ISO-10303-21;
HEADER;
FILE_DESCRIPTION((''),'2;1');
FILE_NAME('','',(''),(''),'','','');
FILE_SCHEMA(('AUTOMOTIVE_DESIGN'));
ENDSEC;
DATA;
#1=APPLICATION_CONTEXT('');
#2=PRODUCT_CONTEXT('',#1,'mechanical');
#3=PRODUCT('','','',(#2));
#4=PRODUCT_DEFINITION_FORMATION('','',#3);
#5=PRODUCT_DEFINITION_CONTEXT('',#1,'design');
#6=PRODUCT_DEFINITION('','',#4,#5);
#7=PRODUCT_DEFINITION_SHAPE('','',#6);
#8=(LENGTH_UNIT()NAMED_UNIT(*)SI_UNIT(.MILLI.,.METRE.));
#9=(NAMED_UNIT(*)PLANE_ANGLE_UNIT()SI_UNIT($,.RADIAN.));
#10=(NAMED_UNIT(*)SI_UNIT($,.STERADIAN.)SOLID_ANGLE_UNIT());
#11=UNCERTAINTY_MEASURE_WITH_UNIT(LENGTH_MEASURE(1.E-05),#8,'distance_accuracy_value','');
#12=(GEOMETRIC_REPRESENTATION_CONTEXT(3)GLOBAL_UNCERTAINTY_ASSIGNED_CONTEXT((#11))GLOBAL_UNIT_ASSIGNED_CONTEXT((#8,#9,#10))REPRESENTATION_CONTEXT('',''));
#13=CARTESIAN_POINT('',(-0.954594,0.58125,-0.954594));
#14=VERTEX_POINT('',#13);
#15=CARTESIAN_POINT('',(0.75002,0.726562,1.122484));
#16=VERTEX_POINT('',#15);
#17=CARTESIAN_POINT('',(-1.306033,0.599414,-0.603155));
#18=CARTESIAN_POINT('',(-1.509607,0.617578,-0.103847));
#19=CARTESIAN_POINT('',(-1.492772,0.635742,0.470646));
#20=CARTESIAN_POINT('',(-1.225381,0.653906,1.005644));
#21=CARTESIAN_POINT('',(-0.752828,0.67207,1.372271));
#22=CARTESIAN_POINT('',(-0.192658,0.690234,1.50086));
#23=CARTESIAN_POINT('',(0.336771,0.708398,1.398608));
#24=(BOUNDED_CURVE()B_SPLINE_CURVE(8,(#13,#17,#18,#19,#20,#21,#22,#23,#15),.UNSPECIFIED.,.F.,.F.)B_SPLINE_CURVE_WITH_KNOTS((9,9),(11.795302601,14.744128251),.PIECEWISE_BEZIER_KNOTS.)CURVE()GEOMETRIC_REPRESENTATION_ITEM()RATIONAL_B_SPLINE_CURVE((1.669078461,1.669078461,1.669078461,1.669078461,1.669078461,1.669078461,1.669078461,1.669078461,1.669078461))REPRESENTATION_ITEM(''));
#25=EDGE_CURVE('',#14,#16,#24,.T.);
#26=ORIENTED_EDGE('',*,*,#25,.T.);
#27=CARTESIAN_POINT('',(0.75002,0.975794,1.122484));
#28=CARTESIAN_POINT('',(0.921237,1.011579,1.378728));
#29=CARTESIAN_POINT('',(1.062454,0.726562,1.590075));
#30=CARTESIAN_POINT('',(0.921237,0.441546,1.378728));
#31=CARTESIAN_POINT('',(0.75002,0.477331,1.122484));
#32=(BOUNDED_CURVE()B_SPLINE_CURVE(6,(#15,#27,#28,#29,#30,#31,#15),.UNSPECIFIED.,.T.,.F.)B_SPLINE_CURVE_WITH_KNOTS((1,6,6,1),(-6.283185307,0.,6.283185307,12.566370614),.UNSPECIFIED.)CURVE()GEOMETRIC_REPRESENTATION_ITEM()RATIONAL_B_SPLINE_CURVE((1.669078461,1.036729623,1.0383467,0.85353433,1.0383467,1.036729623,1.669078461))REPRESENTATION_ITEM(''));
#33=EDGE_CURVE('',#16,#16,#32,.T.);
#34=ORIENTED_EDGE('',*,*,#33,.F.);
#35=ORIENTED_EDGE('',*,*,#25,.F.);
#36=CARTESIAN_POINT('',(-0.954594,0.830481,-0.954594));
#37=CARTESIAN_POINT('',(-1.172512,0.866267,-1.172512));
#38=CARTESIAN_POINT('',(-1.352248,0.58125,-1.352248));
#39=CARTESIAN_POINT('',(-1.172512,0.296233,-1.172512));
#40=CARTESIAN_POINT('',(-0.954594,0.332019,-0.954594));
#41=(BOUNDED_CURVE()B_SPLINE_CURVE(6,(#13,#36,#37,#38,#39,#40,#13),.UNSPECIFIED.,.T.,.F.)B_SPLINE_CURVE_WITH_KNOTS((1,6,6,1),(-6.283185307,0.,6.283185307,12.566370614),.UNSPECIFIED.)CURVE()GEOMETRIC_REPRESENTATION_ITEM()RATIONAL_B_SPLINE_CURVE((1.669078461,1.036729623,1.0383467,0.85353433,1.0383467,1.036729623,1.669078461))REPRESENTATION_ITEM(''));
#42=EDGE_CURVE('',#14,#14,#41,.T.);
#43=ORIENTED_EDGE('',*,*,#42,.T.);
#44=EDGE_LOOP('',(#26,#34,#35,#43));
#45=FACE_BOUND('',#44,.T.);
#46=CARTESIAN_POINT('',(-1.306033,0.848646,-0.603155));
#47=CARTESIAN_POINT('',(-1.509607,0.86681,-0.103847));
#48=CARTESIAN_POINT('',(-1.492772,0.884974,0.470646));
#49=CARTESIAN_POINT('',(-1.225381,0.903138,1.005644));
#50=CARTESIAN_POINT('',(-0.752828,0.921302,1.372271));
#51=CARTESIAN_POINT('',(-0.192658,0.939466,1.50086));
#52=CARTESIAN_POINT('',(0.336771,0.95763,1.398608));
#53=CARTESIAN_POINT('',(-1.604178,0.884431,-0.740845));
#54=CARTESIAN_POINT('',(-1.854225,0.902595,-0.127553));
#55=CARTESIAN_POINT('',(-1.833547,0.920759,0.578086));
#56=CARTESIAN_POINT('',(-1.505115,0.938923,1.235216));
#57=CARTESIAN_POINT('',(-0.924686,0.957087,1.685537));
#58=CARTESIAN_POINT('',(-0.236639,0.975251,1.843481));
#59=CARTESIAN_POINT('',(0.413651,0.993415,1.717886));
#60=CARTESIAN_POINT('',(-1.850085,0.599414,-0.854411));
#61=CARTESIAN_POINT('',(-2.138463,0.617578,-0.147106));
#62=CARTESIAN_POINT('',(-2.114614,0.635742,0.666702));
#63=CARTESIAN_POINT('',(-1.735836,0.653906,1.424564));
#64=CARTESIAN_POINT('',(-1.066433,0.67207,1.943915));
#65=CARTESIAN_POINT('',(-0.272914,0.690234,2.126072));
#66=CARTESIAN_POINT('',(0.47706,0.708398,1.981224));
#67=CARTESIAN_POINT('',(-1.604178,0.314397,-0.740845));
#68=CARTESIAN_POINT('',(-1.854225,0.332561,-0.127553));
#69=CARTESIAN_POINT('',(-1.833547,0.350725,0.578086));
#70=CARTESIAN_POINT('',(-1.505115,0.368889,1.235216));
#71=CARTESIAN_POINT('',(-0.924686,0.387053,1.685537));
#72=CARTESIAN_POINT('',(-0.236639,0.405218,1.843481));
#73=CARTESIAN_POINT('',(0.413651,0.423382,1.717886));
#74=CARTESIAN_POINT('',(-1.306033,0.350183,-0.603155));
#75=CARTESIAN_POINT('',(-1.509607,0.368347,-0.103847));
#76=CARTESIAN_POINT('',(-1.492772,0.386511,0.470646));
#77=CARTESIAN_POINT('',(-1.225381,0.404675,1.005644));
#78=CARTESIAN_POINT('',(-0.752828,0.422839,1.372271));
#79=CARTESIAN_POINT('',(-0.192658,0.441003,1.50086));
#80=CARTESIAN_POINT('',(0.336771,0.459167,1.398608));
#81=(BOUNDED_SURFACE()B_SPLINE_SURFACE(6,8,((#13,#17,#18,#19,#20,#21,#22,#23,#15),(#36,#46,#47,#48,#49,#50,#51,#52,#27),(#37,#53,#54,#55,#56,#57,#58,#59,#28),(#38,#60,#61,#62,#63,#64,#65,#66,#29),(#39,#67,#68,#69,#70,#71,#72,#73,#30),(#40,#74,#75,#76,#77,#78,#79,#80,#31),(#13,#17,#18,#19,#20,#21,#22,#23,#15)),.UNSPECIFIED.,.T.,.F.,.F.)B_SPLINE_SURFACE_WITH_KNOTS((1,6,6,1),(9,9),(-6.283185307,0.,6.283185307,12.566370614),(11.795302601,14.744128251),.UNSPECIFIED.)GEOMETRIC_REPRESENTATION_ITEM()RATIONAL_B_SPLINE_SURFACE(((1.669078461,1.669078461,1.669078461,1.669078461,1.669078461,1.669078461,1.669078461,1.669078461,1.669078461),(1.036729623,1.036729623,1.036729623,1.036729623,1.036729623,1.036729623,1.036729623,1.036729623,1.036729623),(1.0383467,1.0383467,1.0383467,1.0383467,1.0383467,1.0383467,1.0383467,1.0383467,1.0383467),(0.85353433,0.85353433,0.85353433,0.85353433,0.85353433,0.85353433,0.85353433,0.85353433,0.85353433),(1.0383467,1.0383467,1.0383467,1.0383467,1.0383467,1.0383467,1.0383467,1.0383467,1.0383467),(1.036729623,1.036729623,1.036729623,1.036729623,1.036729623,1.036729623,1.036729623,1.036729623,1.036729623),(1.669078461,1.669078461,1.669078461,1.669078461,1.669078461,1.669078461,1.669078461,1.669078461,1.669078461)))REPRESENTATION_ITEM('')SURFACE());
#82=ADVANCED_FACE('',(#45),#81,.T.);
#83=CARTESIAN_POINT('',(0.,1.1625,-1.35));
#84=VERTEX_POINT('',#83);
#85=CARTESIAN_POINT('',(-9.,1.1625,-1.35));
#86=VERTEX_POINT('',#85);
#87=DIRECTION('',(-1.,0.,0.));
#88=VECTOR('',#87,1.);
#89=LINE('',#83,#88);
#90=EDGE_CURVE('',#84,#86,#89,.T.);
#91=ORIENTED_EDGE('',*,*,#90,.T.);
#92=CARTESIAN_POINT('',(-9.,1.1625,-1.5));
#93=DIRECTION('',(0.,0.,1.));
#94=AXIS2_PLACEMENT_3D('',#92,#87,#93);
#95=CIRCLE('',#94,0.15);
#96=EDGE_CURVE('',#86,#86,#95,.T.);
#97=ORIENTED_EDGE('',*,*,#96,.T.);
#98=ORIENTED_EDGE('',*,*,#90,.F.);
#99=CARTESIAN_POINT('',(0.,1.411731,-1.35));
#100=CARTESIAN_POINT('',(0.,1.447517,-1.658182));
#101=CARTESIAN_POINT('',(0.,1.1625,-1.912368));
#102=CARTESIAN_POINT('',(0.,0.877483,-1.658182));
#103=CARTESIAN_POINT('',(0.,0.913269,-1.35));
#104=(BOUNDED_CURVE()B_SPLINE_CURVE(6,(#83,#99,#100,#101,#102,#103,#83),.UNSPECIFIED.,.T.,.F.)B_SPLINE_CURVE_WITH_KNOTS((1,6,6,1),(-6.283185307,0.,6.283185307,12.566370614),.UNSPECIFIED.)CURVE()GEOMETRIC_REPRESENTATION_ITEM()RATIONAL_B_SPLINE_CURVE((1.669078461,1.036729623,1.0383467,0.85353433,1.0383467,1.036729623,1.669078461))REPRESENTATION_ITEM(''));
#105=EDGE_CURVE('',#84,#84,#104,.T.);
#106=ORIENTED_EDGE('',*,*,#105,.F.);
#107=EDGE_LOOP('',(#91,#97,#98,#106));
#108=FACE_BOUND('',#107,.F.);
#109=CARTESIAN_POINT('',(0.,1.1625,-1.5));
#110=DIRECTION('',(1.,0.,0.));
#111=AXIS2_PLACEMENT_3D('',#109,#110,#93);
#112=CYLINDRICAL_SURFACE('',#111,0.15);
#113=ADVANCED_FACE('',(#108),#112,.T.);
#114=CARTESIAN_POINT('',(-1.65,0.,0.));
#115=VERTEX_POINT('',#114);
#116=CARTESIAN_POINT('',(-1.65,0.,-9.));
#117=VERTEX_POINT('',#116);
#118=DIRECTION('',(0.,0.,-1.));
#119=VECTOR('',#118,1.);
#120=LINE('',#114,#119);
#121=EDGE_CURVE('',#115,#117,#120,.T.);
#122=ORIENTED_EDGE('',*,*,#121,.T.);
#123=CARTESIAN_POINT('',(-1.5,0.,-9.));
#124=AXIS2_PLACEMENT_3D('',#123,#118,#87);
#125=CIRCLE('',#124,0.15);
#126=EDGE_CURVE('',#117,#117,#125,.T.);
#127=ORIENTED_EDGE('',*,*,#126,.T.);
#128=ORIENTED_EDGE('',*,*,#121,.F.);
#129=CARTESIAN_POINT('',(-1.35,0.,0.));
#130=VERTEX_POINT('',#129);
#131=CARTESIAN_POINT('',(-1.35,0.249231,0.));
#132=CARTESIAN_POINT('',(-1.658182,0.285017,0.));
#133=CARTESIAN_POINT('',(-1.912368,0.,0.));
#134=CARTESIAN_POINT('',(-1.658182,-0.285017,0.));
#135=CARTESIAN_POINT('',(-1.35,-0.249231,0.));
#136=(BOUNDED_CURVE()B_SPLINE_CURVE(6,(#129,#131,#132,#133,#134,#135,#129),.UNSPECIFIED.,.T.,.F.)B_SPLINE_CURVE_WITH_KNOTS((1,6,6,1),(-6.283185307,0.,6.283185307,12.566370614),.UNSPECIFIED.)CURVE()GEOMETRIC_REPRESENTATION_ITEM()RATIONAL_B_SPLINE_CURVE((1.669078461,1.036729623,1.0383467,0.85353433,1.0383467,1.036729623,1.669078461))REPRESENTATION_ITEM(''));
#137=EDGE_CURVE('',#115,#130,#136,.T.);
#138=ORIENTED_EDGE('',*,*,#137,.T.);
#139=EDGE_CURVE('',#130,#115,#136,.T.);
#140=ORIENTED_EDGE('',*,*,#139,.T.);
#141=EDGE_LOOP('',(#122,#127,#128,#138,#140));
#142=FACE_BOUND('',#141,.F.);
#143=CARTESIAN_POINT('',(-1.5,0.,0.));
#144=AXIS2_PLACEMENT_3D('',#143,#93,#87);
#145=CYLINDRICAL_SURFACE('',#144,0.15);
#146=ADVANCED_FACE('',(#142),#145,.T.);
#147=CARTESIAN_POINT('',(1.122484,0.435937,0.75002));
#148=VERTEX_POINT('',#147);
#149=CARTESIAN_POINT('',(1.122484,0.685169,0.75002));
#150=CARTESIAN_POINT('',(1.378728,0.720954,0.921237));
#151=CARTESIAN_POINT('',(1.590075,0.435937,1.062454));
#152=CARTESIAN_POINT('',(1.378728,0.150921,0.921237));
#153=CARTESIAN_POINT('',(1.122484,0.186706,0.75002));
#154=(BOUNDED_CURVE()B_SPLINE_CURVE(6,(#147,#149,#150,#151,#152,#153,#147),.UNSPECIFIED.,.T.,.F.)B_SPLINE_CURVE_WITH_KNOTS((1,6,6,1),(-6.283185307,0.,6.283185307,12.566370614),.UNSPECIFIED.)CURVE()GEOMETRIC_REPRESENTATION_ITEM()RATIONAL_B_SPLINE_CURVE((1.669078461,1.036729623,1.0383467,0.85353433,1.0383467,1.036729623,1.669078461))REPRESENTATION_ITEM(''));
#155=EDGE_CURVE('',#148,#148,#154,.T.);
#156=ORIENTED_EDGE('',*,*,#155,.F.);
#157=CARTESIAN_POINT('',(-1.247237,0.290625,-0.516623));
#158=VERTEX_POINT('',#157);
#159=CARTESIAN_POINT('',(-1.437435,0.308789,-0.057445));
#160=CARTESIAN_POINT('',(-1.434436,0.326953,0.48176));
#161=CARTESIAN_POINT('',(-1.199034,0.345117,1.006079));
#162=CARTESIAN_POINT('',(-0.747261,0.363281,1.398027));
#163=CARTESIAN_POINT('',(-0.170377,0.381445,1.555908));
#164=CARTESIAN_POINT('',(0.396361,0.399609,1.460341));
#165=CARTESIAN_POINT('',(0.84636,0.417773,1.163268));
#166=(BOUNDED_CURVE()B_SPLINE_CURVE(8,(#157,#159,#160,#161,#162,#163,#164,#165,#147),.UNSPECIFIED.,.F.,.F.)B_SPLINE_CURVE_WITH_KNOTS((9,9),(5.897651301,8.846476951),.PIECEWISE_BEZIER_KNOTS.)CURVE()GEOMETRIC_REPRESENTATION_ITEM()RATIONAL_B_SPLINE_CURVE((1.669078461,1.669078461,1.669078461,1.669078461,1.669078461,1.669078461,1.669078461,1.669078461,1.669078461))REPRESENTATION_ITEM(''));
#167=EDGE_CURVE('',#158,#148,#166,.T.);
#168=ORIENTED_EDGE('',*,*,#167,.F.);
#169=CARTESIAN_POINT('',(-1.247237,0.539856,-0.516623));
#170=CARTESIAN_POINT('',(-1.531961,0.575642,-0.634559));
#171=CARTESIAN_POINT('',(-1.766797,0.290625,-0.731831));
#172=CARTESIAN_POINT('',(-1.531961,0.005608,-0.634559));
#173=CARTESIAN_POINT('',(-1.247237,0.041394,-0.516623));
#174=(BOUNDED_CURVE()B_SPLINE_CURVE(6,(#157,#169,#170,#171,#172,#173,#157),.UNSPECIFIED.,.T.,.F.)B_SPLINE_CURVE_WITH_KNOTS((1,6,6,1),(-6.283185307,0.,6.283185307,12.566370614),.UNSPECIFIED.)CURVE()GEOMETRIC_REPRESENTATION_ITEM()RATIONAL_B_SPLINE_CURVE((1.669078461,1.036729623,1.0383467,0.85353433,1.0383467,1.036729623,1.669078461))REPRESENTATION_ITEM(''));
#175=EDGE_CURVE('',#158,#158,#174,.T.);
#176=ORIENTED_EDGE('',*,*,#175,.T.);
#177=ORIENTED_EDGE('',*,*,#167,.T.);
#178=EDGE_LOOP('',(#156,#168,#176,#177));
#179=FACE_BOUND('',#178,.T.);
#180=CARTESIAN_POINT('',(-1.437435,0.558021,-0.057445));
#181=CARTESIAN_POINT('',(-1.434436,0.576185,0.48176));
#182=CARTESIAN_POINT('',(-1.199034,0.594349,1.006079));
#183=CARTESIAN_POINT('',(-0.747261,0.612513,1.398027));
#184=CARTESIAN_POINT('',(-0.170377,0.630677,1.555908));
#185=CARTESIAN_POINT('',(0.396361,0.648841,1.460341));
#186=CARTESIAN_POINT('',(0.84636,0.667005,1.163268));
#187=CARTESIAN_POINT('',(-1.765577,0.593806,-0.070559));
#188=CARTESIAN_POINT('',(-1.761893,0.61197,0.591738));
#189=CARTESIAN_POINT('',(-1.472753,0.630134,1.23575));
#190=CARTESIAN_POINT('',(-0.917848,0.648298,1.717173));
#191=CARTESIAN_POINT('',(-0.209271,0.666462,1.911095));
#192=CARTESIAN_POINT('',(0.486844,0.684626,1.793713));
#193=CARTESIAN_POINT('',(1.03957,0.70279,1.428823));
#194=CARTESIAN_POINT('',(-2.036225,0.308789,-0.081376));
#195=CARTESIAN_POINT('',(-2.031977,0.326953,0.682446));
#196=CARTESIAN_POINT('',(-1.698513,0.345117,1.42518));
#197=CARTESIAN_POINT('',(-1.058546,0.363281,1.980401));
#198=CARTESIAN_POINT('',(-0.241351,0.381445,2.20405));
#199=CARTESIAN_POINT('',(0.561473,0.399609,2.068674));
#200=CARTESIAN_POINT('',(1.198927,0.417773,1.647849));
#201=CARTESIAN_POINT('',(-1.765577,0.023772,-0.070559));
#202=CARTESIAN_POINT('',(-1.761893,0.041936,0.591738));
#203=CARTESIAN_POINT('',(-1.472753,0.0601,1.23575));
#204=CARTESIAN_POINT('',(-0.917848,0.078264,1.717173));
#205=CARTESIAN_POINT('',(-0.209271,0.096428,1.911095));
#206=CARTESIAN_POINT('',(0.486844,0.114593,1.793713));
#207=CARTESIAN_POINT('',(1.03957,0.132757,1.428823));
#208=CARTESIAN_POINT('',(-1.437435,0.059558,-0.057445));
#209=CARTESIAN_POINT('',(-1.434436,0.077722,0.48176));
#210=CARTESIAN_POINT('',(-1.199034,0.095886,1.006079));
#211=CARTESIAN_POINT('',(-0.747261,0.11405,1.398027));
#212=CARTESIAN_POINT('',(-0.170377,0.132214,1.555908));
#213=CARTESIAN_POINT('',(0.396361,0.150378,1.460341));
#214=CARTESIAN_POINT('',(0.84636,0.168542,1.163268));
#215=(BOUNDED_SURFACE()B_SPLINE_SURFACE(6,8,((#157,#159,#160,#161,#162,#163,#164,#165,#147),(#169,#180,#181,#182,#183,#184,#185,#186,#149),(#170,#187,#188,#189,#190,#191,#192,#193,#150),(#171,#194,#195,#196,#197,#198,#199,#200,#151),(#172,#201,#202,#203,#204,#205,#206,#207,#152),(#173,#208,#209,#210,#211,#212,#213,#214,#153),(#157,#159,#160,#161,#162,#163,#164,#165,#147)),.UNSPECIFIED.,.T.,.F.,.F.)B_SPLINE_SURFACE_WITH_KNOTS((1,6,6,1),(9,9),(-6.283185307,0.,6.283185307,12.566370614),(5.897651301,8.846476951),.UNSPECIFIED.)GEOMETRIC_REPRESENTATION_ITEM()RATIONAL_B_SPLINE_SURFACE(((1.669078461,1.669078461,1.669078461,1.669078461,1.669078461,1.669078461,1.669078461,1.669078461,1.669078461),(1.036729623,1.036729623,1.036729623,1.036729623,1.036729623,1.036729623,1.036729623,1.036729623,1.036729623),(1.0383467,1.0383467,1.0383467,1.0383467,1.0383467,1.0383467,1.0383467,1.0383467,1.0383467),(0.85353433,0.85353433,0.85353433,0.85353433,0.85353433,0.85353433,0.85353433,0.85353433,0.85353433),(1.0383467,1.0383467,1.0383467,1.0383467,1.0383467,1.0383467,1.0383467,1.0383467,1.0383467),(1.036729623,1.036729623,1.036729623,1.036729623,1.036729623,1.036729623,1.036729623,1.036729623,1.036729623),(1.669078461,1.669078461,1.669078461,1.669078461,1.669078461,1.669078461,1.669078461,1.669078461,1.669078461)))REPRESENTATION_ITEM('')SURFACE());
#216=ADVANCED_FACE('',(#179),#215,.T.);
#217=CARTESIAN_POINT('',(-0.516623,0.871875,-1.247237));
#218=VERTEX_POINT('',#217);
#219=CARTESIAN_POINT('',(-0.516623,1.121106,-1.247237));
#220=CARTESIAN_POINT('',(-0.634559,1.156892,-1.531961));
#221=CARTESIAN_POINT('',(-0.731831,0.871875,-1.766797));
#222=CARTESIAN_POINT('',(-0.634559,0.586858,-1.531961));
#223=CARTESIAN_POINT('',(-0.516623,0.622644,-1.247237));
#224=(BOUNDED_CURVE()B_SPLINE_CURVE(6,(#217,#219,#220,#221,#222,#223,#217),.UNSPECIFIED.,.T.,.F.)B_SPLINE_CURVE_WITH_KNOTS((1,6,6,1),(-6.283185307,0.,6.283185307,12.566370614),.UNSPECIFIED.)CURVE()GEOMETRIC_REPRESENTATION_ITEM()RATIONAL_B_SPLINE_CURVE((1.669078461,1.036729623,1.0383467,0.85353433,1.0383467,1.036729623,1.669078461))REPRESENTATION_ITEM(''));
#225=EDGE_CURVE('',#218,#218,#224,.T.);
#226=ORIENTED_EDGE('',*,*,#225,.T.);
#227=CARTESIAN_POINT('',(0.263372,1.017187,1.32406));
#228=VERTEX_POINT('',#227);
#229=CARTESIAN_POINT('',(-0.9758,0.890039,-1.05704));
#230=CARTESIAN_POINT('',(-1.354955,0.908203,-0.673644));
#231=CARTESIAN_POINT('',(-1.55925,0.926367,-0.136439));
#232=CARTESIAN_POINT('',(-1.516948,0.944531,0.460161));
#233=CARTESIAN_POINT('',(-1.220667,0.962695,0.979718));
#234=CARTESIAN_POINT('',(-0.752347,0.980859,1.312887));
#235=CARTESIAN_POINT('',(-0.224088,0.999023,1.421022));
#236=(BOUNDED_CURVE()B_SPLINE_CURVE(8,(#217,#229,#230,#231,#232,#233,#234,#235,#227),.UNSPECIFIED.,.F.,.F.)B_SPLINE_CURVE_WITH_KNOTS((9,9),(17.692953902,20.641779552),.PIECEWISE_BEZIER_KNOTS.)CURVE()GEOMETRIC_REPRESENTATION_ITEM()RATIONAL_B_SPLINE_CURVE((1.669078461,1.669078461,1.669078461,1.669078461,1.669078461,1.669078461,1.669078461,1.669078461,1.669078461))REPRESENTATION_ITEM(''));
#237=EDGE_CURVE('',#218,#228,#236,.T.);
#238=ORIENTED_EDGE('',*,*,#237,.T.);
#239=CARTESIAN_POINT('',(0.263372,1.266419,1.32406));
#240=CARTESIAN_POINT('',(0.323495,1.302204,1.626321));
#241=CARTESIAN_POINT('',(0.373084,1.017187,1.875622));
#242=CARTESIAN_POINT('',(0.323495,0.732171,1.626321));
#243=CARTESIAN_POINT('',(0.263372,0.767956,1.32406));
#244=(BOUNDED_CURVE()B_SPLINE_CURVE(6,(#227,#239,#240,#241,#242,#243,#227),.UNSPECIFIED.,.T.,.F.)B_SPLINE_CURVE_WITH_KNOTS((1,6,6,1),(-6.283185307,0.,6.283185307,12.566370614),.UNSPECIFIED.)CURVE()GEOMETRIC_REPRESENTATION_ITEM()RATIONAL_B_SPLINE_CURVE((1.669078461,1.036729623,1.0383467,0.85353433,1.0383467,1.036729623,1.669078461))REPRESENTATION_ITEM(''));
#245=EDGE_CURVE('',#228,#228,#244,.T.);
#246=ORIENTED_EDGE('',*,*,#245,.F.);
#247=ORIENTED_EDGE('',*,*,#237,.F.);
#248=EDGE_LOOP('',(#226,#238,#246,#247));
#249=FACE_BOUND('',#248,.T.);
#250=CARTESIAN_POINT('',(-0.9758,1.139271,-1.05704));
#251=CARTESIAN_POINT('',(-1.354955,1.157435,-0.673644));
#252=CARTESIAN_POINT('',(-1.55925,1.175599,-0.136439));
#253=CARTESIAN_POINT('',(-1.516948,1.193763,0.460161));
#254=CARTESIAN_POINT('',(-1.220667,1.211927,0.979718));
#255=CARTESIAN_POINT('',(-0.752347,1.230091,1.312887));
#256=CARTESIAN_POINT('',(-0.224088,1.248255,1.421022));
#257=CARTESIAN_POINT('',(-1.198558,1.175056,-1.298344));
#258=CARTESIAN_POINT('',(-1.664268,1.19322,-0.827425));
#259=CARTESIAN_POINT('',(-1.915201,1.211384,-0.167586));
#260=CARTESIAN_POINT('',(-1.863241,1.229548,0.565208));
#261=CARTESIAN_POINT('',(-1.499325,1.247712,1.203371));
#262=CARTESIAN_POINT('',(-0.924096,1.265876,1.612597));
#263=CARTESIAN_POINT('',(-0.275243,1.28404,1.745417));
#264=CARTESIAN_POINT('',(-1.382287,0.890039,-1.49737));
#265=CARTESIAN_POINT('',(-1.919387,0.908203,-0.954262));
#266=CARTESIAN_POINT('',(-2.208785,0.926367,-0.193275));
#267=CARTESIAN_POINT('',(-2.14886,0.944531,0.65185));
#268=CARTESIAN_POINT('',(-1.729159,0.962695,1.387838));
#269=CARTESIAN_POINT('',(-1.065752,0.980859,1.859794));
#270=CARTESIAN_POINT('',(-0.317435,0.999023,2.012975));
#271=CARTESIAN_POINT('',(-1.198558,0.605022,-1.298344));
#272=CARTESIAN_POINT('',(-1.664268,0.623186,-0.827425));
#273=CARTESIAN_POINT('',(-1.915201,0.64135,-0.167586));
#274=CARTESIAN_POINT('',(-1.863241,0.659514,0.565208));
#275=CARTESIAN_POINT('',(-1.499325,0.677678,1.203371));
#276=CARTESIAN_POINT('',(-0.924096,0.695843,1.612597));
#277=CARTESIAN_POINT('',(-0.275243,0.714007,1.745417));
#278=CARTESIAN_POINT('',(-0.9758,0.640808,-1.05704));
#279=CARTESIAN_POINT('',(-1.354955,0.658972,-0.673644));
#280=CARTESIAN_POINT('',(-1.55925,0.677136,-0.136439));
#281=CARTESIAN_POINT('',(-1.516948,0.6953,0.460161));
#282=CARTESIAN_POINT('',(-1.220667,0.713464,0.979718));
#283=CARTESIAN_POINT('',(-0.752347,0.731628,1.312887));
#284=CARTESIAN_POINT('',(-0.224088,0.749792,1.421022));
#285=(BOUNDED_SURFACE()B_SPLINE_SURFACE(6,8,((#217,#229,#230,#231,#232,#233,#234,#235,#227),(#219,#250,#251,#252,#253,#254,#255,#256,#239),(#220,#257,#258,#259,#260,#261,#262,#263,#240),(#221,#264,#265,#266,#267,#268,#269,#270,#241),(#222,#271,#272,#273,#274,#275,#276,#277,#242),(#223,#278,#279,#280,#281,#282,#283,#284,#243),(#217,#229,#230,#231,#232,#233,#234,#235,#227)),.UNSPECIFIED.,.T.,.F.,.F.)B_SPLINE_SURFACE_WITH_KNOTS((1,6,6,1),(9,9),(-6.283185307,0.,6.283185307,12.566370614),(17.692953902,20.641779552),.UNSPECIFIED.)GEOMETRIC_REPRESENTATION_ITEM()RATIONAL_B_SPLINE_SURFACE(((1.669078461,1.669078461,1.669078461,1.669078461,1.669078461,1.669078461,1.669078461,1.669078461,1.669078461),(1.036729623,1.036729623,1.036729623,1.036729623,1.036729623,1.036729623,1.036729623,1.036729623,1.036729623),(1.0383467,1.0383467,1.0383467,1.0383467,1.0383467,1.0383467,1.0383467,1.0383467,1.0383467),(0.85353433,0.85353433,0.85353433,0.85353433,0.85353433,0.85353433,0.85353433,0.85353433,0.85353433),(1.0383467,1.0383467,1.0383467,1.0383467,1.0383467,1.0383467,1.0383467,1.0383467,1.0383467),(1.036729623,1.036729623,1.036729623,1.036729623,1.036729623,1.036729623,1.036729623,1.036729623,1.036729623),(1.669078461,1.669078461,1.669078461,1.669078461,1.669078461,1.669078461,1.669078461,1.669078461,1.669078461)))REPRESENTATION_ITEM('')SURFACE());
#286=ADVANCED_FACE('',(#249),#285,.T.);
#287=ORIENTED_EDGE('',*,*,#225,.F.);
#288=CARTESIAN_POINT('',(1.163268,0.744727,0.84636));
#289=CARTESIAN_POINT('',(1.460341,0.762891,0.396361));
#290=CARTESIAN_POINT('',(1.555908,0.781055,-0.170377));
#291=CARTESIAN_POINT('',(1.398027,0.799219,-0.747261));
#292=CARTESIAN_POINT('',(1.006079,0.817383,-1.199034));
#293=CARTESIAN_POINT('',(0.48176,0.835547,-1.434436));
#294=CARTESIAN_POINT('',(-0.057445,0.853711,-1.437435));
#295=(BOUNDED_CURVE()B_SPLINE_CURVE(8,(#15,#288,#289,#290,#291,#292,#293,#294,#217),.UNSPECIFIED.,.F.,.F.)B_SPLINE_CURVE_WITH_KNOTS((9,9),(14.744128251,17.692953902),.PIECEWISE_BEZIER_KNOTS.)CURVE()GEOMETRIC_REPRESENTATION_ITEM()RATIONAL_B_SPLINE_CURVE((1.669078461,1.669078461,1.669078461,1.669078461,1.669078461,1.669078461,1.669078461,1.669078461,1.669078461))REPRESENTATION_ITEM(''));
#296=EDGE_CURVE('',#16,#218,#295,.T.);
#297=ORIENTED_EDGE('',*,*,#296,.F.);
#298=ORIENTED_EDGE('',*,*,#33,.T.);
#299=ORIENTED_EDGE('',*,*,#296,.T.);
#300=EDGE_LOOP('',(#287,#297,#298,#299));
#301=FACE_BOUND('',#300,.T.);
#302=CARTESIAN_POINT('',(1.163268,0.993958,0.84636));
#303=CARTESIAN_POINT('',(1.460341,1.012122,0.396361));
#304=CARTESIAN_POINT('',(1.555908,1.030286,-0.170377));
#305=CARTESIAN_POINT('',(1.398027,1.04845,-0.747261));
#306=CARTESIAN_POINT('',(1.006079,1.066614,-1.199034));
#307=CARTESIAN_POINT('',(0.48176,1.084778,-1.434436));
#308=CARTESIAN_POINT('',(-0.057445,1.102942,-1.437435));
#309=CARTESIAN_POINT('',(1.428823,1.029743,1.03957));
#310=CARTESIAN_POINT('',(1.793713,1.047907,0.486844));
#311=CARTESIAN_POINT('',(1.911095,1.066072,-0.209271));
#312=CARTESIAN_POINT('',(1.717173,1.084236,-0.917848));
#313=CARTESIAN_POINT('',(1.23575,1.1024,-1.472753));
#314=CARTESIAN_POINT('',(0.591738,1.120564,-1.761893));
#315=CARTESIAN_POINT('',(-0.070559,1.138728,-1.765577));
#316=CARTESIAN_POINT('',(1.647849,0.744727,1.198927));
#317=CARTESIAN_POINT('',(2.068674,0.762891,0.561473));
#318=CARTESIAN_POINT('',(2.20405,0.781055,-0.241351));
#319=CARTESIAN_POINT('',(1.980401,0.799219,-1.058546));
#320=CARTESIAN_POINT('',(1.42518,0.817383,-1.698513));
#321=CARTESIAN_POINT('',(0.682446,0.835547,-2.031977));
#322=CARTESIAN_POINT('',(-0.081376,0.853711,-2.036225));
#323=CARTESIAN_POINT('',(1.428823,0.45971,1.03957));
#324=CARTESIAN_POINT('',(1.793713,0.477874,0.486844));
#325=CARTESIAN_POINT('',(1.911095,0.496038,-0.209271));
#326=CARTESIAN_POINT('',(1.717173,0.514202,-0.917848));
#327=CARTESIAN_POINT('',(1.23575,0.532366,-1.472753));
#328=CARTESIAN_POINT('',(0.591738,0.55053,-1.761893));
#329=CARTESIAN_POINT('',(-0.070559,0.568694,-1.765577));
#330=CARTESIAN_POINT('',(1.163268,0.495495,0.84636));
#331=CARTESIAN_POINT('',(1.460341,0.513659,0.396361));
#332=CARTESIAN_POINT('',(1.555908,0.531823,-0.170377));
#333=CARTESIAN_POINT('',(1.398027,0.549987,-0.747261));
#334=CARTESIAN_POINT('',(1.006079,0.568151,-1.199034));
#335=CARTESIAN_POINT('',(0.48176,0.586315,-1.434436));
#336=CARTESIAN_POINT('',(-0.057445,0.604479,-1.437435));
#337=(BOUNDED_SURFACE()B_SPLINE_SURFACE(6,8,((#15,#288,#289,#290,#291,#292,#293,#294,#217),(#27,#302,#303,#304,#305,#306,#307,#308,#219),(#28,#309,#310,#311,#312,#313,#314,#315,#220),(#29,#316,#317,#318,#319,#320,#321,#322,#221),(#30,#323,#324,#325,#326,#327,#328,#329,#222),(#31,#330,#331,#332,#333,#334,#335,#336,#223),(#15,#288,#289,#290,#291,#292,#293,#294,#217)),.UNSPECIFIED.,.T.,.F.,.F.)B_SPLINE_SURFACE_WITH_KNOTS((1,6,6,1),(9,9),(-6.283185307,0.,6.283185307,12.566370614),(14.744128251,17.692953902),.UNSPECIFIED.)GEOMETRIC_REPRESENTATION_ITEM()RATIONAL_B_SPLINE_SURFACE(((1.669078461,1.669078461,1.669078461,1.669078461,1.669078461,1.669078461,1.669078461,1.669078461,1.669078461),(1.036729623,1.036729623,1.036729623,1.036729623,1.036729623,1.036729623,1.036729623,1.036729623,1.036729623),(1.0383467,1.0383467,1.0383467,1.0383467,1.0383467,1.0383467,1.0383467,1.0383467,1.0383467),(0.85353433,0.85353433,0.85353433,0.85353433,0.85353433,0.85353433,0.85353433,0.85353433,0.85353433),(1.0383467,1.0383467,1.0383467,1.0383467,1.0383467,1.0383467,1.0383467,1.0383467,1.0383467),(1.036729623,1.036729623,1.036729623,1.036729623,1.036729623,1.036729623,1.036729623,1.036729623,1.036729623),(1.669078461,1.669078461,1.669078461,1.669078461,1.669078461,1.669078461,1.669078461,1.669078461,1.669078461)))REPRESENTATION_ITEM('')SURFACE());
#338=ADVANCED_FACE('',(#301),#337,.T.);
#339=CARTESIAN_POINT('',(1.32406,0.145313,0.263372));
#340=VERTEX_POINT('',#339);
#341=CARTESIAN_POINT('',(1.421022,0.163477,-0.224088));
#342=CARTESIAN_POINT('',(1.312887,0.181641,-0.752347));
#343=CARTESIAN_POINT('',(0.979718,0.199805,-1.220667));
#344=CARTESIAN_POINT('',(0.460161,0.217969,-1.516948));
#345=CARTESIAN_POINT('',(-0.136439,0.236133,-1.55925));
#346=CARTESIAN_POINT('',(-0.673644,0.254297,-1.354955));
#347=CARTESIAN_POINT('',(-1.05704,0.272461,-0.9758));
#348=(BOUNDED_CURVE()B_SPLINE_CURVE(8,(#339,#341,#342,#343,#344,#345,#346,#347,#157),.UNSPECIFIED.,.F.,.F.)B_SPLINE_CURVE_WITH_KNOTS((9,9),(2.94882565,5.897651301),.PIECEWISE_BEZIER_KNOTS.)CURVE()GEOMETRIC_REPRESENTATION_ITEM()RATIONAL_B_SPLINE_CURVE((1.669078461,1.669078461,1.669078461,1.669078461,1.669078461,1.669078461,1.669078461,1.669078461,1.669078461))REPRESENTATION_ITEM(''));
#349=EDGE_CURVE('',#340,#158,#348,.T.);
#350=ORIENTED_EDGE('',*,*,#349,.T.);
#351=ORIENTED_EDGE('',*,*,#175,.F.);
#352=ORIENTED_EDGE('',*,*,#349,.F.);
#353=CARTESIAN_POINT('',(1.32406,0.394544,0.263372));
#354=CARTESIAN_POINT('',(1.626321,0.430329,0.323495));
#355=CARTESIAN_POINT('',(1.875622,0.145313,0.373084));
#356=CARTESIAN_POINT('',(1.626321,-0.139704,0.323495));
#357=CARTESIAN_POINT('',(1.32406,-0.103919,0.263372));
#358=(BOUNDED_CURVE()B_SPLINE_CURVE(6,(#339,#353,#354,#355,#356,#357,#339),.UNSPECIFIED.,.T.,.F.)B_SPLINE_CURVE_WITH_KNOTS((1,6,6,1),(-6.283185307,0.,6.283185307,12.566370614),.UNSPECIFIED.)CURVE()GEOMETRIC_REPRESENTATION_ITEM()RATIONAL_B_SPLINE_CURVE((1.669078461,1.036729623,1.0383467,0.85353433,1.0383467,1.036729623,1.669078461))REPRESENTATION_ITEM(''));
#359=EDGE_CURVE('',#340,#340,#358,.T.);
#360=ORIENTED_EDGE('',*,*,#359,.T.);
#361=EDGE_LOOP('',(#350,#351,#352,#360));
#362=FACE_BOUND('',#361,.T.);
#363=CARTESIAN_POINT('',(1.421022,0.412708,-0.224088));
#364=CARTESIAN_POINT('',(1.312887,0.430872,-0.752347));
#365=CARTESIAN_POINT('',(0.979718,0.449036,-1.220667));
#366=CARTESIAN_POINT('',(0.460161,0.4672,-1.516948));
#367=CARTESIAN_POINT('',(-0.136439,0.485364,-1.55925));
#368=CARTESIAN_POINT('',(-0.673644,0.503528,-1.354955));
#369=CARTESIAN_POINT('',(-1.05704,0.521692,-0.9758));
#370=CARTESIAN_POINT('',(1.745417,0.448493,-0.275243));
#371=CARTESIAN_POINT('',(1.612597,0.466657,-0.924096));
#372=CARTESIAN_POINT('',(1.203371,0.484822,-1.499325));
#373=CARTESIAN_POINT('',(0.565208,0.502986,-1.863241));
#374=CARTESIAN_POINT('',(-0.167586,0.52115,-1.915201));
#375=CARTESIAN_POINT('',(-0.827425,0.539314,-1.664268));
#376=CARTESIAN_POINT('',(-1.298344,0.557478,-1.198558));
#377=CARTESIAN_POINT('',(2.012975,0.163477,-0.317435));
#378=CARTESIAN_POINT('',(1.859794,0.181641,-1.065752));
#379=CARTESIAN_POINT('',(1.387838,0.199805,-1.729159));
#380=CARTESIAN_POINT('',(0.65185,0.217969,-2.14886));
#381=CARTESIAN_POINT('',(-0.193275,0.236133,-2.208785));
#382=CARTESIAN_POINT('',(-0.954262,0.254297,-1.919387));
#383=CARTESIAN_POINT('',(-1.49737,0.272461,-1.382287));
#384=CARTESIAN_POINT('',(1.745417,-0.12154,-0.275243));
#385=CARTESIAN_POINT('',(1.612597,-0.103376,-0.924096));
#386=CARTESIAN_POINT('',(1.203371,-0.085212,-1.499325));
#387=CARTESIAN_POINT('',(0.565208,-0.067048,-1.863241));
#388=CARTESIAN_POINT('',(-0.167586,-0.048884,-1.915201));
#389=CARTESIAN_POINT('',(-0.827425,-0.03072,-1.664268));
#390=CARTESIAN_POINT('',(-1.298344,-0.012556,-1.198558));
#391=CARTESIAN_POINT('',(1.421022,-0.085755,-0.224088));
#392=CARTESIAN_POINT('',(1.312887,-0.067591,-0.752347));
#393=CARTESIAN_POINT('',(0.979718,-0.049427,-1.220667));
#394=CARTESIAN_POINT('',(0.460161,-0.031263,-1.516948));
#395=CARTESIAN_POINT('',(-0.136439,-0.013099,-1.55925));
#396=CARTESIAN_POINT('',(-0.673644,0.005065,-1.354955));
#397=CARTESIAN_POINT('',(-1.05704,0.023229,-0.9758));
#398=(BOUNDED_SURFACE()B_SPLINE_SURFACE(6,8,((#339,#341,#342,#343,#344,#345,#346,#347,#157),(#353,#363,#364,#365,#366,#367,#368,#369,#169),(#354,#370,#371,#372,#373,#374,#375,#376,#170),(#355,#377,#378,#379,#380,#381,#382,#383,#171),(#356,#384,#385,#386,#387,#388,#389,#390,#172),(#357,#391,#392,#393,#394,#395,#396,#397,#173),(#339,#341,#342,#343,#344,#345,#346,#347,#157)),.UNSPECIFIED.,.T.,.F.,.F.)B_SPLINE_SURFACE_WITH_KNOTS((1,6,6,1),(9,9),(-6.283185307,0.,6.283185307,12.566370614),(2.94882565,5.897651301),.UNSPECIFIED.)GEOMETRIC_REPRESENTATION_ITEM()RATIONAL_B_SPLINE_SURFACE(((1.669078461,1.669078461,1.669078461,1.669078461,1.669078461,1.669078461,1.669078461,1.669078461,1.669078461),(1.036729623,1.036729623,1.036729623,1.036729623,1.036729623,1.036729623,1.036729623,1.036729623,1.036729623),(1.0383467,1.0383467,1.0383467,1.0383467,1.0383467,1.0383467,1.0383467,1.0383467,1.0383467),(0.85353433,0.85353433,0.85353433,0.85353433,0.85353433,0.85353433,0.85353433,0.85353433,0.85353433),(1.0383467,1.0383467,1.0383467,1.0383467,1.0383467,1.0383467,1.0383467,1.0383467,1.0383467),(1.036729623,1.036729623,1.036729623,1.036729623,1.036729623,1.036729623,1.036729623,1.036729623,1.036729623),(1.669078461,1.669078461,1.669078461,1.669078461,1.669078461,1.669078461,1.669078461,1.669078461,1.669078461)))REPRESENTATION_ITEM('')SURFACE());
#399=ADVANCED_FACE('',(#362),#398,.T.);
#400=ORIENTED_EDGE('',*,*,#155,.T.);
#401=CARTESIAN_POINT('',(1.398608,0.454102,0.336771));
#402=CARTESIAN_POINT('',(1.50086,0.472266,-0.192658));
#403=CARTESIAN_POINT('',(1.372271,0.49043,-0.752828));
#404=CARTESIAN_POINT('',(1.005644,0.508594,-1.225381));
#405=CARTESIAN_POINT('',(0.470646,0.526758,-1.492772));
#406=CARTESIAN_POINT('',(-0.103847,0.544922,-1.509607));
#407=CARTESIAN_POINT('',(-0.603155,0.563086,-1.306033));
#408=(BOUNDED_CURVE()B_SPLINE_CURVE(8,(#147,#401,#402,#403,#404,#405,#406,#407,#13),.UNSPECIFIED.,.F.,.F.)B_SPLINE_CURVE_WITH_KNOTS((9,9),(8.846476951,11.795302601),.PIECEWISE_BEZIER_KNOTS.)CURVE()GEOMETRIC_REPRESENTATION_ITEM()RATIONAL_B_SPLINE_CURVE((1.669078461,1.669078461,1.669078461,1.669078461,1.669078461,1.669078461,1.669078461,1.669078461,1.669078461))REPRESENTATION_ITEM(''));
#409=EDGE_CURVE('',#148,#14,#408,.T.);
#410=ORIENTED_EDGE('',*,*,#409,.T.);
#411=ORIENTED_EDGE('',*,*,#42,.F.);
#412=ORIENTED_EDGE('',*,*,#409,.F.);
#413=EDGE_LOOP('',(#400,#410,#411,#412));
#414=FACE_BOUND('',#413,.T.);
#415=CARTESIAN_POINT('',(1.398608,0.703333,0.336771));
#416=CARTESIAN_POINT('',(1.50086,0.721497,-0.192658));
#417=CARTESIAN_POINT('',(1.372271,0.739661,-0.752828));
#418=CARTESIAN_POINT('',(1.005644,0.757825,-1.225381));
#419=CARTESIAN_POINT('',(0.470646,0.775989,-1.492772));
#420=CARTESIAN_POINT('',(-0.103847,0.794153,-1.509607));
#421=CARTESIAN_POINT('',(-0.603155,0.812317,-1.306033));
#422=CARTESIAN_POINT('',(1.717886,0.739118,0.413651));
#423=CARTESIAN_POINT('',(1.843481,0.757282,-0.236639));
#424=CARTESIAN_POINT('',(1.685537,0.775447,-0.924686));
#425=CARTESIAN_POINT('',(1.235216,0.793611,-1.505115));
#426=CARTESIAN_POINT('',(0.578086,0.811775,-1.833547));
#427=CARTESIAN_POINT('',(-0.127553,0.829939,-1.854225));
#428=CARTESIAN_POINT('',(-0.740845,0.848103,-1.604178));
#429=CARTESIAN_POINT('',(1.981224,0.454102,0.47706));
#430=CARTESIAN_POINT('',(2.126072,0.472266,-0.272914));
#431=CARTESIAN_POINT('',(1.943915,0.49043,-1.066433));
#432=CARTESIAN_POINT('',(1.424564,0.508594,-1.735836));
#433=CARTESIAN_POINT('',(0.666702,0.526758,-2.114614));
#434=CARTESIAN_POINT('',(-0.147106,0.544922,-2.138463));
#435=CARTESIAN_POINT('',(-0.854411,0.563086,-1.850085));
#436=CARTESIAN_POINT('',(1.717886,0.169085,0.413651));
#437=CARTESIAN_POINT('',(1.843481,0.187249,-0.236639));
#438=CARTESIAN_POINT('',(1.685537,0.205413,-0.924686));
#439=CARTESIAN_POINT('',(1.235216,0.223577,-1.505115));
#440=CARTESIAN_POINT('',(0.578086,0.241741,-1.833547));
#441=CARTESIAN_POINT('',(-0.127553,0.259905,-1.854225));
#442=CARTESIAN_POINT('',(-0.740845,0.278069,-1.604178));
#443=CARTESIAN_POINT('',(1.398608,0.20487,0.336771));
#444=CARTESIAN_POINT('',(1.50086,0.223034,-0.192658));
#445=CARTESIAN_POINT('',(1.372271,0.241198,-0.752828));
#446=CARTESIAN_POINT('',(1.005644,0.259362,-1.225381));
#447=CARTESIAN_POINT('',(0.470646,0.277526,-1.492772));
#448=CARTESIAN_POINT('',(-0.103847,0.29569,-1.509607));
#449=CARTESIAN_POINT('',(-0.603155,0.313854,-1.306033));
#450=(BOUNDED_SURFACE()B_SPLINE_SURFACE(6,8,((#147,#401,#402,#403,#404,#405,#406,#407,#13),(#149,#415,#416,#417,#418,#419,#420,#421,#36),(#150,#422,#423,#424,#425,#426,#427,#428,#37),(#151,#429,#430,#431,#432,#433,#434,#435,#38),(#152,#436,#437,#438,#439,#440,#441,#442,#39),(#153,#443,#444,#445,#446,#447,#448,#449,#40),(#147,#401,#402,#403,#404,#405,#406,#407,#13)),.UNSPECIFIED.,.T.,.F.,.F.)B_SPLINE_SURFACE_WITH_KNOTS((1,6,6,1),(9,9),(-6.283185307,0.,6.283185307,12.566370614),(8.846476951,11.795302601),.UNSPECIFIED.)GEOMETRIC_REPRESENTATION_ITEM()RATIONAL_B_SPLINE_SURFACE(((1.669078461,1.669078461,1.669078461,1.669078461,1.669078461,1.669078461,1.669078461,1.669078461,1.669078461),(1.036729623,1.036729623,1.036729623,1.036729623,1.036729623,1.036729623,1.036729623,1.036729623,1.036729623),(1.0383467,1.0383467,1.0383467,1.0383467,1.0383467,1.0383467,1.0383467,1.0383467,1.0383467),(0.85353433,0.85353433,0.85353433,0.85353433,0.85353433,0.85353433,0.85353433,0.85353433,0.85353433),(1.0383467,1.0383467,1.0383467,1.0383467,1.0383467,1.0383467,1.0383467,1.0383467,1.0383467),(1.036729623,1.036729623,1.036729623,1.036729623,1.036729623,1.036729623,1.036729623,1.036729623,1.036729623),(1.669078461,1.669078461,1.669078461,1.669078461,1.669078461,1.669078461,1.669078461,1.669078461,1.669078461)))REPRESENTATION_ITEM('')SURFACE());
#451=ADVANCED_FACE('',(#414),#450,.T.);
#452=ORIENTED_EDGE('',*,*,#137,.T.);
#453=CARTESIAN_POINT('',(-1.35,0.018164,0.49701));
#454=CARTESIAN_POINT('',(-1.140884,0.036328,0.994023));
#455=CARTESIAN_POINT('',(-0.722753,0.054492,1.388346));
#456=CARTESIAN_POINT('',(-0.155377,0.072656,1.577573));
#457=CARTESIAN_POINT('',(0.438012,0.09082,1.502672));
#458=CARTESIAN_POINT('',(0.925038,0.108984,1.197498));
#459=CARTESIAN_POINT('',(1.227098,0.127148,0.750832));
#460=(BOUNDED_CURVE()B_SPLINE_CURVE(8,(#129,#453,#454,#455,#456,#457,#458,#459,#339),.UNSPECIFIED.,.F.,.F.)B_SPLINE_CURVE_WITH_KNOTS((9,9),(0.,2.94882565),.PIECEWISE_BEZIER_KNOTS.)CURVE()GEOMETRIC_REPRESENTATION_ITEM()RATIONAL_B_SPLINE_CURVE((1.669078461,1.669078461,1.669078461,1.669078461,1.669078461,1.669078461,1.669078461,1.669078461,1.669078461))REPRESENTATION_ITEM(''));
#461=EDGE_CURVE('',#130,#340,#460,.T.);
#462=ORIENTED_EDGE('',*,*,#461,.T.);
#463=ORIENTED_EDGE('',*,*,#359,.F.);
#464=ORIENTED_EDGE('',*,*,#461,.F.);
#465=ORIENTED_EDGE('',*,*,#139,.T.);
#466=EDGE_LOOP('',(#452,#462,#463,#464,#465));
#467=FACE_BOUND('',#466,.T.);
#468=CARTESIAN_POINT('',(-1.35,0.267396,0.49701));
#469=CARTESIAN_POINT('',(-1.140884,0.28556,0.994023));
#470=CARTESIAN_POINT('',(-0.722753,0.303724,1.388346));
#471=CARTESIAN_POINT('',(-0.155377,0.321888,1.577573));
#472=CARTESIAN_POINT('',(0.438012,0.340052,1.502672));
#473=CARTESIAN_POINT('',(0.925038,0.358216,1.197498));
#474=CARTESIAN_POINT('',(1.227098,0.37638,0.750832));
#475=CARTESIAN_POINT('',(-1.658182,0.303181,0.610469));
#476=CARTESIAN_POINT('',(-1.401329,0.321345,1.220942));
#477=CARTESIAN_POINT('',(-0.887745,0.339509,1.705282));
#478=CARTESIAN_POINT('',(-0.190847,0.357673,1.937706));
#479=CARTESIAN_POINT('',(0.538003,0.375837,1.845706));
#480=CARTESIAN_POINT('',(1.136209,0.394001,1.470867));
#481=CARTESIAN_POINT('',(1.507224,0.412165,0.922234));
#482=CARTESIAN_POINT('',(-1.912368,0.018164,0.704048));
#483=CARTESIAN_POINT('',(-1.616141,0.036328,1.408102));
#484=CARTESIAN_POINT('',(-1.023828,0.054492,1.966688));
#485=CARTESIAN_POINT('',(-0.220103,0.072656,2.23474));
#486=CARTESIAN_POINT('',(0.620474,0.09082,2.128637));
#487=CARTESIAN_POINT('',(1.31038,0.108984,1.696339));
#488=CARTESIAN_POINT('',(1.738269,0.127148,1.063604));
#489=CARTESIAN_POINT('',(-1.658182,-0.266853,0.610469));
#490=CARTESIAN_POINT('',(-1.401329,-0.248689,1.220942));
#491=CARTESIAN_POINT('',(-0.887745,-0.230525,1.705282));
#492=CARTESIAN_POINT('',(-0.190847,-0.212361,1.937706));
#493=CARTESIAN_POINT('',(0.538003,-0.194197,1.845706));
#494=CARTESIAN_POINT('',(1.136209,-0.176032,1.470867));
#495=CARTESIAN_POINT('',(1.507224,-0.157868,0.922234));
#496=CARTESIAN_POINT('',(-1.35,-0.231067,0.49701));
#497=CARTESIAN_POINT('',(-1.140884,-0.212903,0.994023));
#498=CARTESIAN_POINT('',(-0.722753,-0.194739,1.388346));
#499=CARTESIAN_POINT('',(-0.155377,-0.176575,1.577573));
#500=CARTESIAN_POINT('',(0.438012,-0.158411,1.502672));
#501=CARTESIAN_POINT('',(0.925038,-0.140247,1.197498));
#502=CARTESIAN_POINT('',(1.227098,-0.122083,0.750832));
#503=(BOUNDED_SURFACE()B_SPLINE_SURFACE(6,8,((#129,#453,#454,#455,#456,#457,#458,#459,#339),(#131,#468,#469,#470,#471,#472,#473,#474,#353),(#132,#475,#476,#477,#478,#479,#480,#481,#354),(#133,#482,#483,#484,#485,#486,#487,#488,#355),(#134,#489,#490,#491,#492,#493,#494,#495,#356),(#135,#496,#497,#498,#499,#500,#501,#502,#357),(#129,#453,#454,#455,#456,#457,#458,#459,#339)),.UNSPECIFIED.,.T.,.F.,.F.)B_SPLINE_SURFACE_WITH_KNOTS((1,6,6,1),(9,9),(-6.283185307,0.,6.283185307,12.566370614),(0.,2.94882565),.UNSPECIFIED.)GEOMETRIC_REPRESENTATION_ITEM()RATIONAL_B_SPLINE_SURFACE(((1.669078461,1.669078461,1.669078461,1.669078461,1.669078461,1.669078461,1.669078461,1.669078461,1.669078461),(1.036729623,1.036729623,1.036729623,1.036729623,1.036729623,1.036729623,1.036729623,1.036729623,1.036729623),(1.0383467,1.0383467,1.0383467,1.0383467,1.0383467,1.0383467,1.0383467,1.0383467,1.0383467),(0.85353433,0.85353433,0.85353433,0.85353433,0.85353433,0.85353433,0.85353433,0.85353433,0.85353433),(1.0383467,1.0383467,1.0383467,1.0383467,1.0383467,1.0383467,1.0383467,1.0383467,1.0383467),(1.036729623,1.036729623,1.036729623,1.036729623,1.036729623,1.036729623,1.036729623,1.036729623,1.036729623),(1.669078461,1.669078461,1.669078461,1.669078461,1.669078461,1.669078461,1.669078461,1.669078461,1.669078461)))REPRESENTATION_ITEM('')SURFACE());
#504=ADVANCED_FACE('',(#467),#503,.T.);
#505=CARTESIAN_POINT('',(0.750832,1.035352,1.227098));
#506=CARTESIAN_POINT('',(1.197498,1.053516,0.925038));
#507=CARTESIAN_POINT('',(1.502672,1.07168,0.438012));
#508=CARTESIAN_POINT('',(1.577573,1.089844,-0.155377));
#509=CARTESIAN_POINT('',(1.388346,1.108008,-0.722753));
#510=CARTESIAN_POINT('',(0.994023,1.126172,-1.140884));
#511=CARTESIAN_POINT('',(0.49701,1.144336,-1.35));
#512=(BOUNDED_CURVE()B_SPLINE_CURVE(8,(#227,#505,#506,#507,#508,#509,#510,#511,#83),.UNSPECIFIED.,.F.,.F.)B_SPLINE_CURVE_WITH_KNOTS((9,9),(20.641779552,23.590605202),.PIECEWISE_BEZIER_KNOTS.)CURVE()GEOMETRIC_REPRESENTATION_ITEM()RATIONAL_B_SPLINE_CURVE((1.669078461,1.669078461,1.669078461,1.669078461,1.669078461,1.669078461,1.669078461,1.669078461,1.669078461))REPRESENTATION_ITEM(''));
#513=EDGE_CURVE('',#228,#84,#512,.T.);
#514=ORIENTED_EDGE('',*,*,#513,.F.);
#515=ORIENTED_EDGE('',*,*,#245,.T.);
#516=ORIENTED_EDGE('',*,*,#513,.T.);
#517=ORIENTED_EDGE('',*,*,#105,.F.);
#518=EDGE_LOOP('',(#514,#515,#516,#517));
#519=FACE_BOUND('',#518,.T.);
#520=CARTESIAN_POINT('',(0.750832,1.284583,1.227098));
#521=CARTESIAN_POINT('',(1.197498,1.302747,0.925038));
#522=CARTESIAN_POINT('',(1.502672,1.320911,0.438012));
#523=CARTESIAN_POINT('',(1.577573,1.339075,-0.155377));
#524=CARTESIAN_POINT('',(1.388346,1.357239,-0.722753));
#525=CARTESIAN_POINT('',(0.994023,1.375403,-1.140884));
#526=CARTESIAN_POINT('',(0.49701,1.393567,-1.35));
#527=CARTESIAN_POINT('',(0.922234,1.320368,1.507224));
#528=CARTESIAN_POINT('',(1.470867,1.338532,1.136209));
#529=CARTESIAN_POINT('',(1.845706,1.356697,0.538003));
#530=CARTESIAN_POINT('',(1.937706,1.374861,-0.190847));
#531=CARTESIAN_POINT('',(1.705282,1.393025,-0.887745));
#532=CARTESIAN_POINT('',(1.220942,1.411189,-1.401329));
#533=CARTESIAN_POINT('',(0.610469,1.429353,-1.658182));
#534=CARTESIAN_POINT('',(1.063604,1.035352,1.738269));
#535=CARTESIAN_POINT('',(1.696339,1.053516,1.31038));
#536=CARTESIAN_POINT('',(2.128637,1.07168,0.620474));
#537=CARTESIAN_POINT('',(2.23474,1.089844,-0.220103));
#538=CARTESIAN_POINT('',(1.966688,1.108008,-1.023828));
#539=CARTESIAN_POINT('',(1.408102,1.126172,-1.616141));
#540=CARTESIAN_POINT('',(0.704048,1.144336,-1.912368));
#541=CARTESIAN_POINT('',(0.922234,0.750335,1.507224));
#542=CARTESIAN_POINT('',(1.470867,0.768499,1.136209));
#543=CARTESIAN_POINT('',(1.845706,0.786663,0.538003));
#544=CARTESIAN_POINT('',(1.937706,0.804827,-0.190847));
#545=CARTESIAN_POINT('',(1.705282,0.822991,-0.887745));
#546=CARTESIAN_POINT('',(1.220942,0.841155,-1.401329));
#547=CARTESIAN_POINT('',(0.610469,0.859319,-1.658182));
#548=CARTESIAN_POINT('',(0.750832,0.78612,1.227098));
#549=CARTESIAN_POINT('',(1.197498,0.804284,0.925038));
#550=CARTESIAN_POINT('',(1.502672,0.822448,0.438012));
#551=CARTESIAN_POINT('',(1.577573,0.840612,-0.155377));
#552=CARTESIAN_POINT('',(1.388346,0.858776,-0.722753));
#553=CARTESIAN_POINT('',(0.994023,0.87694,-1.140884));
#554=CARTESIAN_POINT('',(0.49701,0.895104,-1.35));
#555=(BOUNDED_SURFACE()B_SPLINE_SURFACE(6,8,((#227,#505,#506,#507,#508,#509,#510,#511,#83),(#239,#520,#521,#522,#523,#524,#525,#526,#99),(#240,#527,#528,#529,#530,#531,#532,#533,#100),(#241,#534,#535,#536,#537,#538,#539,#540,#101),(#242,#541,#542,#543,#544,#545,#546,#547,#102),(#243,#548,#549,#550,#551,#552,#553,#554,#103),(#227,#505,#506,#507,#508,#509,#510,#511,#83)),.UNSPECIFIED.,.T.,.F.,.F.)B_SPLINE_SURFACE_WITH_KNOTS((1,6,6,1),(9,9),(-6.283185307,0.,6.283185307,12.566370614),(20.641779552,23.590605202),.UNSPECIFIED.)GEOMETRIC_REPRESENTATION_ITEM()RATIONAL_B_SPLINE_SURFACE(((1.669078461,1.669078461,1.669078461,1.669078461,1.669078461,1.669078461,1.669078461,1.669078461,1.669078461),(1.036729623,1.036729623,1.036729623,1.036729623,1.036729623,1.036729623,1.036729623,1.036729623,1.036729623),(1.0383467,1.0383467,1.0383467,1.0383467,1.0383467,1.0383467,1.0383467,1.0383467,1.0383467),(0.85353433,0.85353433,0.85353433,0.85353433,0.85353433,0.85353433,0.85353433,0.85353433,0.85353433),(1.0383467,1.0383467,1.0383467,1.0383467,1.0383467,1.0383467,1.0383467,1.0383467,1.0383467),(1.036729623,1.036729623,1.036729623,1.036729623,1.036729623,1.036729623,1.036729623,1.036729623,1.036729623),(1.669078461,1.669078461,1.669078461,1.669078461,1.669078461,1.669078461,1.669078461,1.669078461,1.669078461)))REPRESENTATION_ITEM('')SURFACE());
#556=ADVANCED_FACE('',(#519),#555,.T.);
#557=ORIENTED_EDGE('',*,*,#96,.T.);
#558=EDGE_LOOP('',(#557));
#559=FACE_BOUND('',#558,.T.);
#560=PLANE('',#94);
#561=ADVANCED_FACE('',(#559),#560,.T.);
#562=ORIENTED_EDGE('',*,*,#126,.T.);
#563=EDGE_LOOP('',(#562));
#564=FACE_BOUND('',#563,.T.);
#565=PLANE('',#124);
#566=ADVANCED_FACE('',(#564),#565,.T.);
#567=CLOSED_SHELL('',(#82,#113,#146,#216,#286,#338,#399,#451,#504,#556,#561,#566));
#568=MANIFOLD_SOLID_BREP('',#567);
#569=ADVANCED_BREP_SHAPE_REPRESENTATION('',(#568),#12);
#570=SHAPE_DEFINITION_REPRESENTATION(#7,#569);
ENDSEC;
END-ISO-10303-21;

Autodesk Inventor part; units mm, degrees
ref_plane "YZ Plane" through (0, 0, 0) normal (1, 0, 0) x (0, 1, 0)
ref_plane "XZ Plane" through (0, 0, 0) normal (0, 1, 0) x (-1, 0, 0)
ref_plane "XY Plane" through (0, 0, 0) normal (0, 0, 1) x (1, 0, 0)
sketch "スケッチ1" plane through (0, 0, 0) normal (0, 0, 1) x (1, 0, 0)
  circle A0 centre (-1.5, 0) radius 0.15
  point P0 (0, 0)
  dimension "d0" = 0.3
  dimension "d1" = 1.5
coil "コイル1" sketch "スケッチ1" operation add axis through (0, -10, 0) along (0, 1, 0) pitch 0.31 turns 3.75 hand right
sketch "スケッチ2" plane through (-1.5, 0, 0) normal (0, 0, -1) x (-1, 0, 0)
  circle A0 centre (0, 0) radius 0.15 projected
  point P0 (-1.5, 0)
  point P1 (-0.15, 0)
extrude "押し出し1" add sketch "スケッチ2" along normal blind 9
sketch "スケッチ3" plane through (0, 1.1625, -1.5) normal (-1, 0, 0) x (0, 0, 1)
  circle A0 centre (0, 0) radius 0.15 projected
  point P0 (1.5, -1.1625)
  point P1 (0.15, 0)
extrude "押し出し2" add sketch "スケッチ3" along normal blind 9
properties part number "TOS 0.3-4-270ﾟ-3" material "鋼"
